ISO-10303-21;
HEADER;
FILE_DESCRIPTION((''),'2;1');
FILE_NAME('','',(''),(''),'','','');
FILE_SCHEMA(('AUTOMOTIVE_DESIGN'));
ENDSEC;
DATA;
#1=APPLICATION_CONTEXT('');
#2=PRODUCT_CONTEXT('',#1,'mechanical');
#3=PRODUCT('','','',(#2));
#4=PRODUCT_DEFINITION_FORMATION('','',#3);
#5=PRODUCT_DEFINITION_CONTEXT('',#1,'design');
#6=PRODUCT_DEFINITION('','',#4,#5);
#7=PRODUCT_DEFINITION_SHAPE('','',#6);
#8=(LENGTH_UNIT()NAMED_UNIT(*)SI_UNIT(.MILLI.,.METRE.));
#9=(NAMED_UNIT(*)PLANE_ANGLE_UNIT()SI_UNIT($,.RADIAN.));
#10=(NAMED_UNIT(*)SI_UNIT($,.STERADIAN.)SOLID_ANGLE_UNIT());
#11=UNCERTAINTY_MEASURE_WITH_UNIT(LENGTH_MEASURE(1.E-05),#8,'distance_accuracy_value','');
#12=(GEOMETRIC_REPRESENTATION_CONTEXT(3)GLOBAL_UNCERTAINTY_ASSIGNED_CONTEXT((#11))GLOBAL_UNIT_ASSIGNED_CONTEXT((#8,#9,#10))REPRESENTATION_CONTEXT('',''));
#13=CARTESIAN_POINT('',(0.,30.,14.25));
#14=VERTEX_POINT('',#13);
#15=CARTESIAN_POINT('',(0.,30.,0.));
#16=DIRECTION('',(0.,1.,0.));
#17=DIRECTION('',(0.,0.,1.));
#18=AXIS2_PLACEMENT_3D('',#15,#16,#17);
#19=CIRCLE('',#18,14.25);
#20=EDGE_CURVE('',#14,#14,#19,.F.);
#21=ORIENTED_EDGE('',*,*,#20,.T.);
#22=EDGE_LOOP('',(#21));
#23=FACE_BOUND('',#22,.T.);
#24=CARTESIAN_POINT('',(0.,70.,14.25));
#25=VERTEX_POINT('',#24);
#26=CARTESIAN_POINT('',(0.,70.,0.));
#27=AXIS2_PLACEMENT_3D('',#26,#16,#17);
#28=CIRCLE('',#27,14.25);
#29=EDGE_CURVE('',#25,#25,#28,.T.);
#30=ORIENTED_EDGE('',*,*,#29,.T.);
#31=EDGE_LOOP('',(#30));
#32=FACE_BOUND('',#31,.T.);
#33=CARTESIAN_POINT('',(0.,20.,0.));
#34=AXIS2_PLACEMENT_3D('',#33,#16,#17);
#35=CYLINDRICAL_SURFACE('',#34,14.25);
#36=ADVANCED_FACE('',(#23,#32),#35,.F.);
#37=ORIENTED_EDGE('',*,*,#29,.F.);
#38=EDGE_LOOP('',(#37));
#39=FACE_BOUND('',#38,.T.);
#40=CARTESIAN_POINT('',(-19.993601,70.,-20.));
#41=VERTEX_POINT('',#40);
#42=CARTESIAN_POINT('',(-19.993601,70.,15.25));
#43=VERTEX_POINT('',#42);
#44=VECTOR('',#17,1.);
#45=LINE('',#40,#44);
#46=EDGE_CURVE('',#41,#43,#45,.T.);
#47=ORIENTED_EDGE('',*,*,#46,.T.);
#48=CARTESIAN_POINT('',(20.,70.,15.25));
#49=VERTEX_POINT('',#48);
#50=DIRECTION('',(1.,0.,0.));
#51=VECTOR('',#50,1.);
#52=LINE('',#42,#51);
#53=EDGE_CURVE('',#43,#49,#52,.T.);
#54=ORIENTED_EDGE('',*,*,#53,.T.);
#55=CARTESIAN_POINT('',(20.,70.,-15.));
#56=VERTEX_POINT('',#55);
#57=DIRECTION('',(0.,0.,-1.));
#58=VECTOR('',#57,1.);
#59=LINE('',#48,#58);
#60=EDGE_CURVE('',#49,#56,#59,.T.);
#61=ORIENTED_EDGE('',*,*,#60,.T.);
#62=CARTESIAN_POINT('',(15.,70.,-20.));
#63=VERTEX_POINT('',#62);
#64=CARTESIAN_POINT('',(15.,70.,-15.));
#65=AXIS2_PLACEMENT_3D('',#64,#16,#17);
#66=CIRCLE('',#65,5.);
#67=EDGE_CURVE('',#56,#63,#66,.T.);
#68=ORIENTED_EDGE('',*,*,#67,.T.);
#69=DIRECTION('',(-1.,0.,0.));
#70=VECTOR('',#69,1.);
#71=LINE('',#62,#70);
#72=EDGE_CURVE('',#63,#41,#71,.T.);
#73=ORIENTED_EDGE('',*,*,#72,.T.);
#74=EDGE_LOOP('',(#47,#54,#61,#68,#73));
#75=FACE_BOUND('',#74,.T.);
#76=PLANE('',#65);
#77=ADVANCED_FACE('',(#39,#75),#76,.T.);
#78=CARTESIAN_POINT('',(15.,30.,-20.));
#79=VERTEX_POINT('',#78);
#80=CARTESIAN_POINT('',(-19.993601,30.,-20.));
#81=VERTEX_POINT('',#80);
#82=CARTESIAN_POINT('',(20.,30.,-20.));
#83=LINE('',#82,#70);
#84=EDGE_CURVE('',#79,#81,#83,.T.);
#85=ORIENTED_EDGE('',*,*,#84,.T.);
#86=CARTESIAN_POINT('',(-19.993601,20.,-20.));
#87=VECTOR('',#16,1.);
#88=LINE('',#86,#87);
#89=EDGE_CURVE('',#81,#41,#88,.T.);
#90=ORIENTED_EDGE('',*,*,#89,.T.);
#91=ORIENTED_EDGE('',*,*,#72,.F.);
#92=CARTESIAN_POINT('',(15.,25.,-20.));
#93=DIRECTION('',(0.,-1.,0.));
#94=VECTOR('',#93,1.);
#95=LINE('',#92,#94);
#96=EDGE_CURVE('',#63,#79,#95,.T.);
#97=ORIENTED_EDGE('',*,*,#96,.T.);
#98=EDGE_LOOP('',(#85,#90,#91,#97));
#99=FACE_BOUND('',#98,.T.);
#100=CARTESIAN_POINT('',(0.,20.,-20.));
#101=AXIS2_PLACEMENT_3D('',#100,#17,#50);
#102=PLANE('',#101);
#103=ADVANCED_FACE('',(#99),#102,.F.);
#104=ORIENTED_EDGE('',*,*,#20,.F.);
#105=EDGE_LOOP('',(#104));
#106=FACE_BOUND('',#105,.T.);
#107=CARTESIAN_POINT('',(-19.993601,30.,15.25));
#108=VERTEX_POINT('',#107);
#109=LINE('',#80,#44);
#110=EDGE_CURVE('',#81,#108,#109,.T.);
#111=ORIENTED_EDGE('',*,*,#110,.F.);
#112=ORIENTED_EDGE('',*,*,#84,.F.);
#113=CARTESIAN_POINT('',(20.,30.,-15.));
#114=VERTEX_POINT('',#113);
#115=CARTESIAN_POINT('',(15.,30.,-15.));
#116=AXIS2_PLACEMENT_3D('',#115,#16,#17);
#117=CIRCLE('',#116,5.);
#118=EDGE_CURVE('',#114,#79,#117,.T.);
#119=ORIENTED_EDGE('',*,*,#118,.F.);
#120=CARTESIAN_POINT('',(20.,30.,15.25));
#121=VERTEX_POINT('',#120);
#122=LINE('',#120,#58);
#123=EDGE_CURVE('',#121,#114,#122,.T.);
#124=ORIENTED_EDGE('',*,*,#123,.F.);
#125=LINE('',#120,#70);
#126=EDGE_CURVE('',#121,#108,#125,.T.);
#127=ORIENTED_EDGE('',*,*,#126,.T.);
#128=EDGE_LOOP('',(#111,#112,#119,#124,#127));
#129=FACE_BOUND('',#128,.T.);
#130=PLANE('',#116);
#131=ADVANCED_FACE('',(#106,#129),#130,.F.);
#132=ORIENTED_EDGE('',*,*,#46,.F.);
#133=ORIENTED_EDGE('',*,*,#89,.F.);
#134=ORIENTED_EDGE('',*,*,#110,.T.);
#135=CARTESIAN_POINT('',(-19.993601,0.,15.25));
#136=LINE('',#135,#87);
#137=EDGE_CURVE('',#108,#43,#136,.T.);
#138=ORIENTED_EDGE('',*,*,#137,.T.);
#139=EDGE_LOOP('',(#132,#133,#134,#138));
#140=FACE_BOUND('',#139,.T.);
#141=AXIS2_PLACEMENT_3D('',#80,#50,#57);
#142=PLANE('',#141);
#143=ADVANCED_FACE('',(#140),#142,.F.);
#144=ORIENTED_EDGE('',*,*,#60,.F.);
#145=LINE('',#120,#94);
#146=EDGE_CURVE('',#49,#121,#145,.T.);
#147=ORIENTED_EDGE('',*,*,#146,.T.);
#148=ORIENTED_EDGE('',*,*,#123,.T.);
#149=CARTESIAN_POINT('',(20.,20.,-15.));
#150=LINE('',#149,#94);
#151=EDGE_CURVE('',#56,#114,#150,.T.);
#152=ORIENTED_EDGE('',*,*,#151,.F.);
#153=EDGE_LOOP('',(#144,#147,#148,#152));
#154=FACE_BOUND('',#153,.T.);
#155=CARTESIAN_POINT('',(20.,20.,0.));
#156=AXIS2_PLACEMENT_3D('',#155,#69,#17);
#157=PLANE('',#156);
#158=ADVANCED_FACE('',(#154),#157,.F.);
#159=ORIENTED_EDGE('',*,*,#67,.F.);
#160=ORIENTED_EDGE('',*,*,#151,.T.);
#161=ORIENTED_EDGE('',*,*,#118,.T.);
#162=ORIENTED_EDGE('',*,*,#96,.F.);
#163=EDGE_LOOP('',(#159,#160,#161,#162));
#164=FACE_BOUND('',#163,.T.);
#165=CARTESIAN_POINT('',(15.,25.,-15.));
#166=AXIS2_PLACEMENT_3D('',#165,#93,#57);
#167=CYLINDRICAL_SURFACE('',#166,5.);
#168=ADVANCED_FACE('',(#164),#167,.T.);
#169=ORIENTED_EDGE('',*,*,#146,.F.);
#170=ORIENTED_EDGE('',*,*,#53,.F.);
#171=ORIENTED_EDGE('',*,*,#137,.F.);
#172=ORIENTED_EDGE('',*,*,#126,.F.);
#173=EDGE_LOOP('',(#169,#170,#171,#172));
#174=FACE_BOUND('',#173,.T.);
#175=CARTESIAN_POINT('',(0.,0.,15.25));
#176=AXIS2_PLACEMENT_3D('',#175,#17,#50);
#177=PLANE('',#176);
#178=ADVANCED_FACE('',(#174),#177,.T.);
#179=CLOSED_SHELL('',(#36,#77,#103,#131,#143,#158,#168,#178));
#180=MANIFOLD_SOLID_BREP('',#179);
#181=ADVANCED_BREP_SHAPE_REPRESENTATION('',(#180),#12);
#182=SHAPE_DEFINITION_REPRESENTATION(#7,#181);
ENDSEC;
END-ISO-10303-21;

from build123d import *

# Parameters (mm, degrees)
CROQUIS1_R                              = 15.25
CROQUIS1_R_2                            = 2.125
SOPORTE_CAJA_REDUCTORA_DEPTH            = 20
CROQUIS3_R                              = 2.125
CORTAR_EXTRUIR1_DEPTH                   = 51.423828692
REDONDEO1_R                             = 5
BOSS_EXTRUDE1_DEPTH                     = 20
CUT_EXTRUDE1_REACH                      = 55.852
SKETCH2_R                               = 1.625
CUT_EXTRUDE2_DEPTH                      = 2
SKETCH4_R                               = 1.625
CUT_EXTRUDE3_DEPTH                      = 63.291652731
CUT_EXTRUDE4_START                      = -4.5
CUT_EXTRUDE4_DEPTH                      = 2
CROQUIS6_W                              = 4.75
CROQUIS6_H                              = 4.75
CORTAR_EXTRUIR17_DEPTH                  = 42.231056256
CROQUIS7_W                              = 60
CROQUIS7_H                              = 20
CORTAR_EXTRUIR18_DEPTH                  = 51.423828692
SALIENTE_EXTRUIR2_DEPTH                 = 49
SOPORTE_START                           = -15
SOPORTE_MOTOR_DEPTH                     = 15
CROQUIS12_R                             = 2.125
AGUJEROS_DE_SUJECION_A_BASE_DEPTH       = 84.087679592
TUERCA_START                            = -4
TUERCA_AGUJERO_DE_SUJECION_A_BASE_DEPTH = 10
SALIENTE_EXTRUIR4_DEPTH                 = 15
CORTAR_EXTRUIR19_DEPTH                  = 25
CROQUIS14_W                             = 50
CROQUIS14_H                             = 118
CORTAR_EXTRUIR22_DEPTH                  = 146.556045907
CROQUIS15_W                             = 10
CROQUIS15_H                             = 7
CORTAR_EXTRUIR23_DEPTH                  = 42.231056256
CORTAR_EXTRUIR24_DEPTH                  = 42.231056256
CROQUIS18_W                             = 40
CROQUIS18_H                             = 10
CORTAR_EXTRUIR25_DEPTH                  = 44.27311521
SALIENTE_EXTRUIR5_DEPTH                 = 10
CROQUIS20_R                             = 1
CORTAR_EXTRUIR26_DEPTH                  = 49.229270158
CORTAR_EXTRUIR27_REACH                  = 62.959
CORTAR_EXTRUIR27_END_RADIUS             = 15.25
CROQUIS21_R                             = 1.625
CROQUIS22_R                             = 2.125
CROQUIS22_R_2                           = 1
SALIENTE_EXTRUIR6_DEPTH                 = 10
CROQUIS23_R                             = 1.625
CORTAR_EXTRUIR28_DEPTH                  = 52.269508521
CORTAR_EXTRUIR29_START                  = -3
CORTAR_EXTRUIR29_DEPTH                  = 10
SALIENTE_EXTRUIR7_DEPTH                 = 10
CORTAR_EXTRUIR30_REACH                  = 72.235
CROQUIS27_R                             = 1.625
CORTAR_EXTRUIR31_REACH                  = 75.235
CORTAR_EXTRUIR31_START                  = -3
CORTAR_EXTRUIR32_REACH                  = 58.612
CROQUIS29_R                             = 1.625
CORTAR_EXTRUIR33_REACH                  = 61.112
CORTAR_EXTRUIR33_START                  = -2.5
CROQUIS35_W                             = 13.305418987
CROQUIS35_H                             = 6.826864192
CORTAR_EXTRUIR34_DEPTH                  = 63.931555098
CORTAR_EXTRUIR34_DEPTH_BACK             = 63.931555098
CORTAR_EXTRUIR35_START                  = -3
CORTAR_EXTRUIR35_DEPTH                  = 10
SALIENTE_EXTRUIR8_DEPTH                 = 10
SALIENTE_EXTRUIR9_DEPTH                 = 13
SALIENTE_EXTRUIR10_DEPTH                = 3
CROQUIS40_W                             = 106.583537839
CROQUIS40_H                             = 47.391515964
CORTAR_EXTRUIR36_DEPTH                  = 80.887064817
CORTAR_EXTRUIR36_DEPTH_BACK             = 80.887064817
CORTAR_EXTRUIR37_DEPTH                  = 67.2524009
CORTAR_EXTRUIR37_DEPTH_BACK             = 67.2524009
CORTAR_EXTRUIR38_DEPTH                  = 79.704784639
CORTAR_EXTRUIR38_DEPTH_BACK             = 79.704784639
SALIENTE_EXTRUIR11_DEPTH                = 10
CORTAR_EXTRUIR39_DEPTH                  = 63.9908649
CROQUIS45_W                             = 31.470301378
CROQUIS45_H                             = 10
CROQUIS45_R                             = 1.625
SALIENTE_EXTRUIR12_DEPTH                = 2.5
SALIENTE_EXTRUIR13_DEPTH                = 10
CORTAR_EXTRUIR40_START                  = -2
CROQUIS47_R                             = 1.625
CORTAR_EXTRUIR40_DEPTH                  = 10
CORTAR_EXTRUIR41_START                  = -12
CROQUIS48_R                             = 1.625
CORTAR_EXTRUIR41_DEPTH                  = 12
CROQUIS49_W                             = 34.796066513
CROQUIS49_H                             = 42.211026982
CORTAR_EXTRUIR42_DEPTH                  = 52.795622989
CORTAR_EXTRUIR42_DEPTH_BACK             = 52.795622989
CROQUIS51_R                             = 15.25
CROQUIS51_R_2                           = 14.25
SALIENTE_EXTRUIR14_DEPTH                = 10
CORTAR_EXTRUIR43_DEPTH                  = 10
CORTAR_EXTRUIR44_DEPTH                  = 10
CORTAR_EXTRUIR45_DEPTH                  = 10
SALIENTE_EXTRUIR15_DEPTH                = 10
CROQUIS56_R                             = 14.25
SALIENTE_EXTRUIR16_DEPTH                = 40
CROQUIS57_W                             = 35.25
CROQUIS57_H                             = 10
CORTAR_EXTRUIR46_DEPTH                  = 84.0631572
CORTAR_EXTRUIR46_DEPTH_BACK             = 84.0631572


with BuildPart() as part:
    # Croquis1 → Soporte caja reductora (new body)
    with BuildSketch(Plane(origin=(0, 0, 0), x_dir=(1, 0, 0), z_dir=(0, 1, 0))):
        Polygon((-30, -15.25), (-20, -15.25), (-20, -20), (20, -20), (20, -15.25), (30, -15.25), (30, -7.25), (20, -4.25), (20, 20), (-20, 20), (-20, -4.25), (-30, -7.25), align=None)
        with Locations(Location((0, 0, 0), (0, 0, 270))):
            Circle(CROQUIS1_R, mode=Mode.SUBTRACT)
        with Locations(Location((-15, 15, 0), (0, 0, 270))):
            Circle(CROQUIS1_R_2, mode=Mode.SUBTRACT)
        with Locations(Location((15, 15, 0), (0, 0, 270))):
            Circle(CROQUIS1_R_2, mode=Mode.SUBTRACT)
    extrude(amount=-SOPORTE_CAJA_REDUCTORA_DEPTH)

    # Croquis3 → Cortar-Extruir1 (cut, through all)
    with BuildSketch(Plane.XY.offset(15.25)):
        with Locations((-23.5, -10)):
            Circle(CROQUIS3_R)
        with Locations((23.5, -10)):
            Circle(CROQUIS3_R)
    extrude(amount=-CORTAR_EXTRUIR1_DEPTH, mode=Mode.SUBTRACT)

    # Redondeo1
    redondeo1_edges = [part.edges().sort_by_distance(p)[0] for p in [
        (-20, -10, -20),
        (20, -10, -20),
    ]]
    fillet(redondeo1_edges, radius=REDONDEO1_R)

    # Sketch1 → Boss-Extrude1 (add)
    with BuildSketch(Plane(origin=(0, 0, 0), x_dir=(1, 0, 0), z_dir=(0, 1, 0))):
        with BuildLine():
            Line((25.5, 15), (20, 15))
            ThreePointArc((20, 15), (18.535533906, 18.535533906), (15, 20))
            Line((15, 20), (30, 20))
            Line((30, 20), (30, 8))
            Line((30, 8), (25.5, 8))
            Line((25.5, 8), (25.5, 15))
        make_face()
    extrude(amount=-BOSS_EXTRUDE1_DEPTH)

    # Sketch2 → Cut-Extrude1 (cut, up to next)
    with BuildSketch(Plane(origin=(0, 0, -20), x_dir=(-1, 0, 0), z_dir=(0, 0, -1)), mode=Mode.PRIVATE) as cut_extrude1_sk1:
        with Locations((-22.75, -10)):
            Circle(SKETCH2_R)
    cut_extrude1_tool1 = extrude(cut_extrude1_sk1.sketch, amount=-CUT_EXTRUDE1_REACH, mode=Mode.PRIVATE) & part.part
    add(cut_extrude1_tool1.solids().sort_by_distance((22.75, -10, -20))[0], mode=Mode.SUBTRACT)

    # Sketch3 → Cut-Extrude2 (cut)
    with BuildSketch(Plane.XY.offset(-15)):
        Polygon((20, -11.58771324), (22.75, -13.175426481), (25.5, -11.58771324), (25.5, -8.41228676), (22.75, -6.824573519), (20, -8.41228676), align=None)
    extrude(amount=-CUT_EXTRUDE2_DEPTH, mode=Mode.SUBTRACT)

    # Sketch4 → Cut-Extrude3 (cut, through all)
    with BuildSketch(Plane.ZY.offset(-25.5)):
        with Locations((-12.25, -10)):
            Circle(SKETCH4_R)
    extrude(amount=-CUT_EXTRUDE3_DEPTH, mode=Mode.SUBTRACT)

    # Sketch5 → Cut-Extrude4 (cut)
    with BuildSketch(Plane(origin=(30, 0, 0), x_dir=(0, 0, -1), z_dir=(1, 0, 0)).offset(CUT_EXTRUDE4_START)):
        Polygon((15, -11.58771324), (15, -8.41228676), (12.25, -6.824573519), (9.5, -8.41228676), (9.5, -11.58771324), (12.25, -13.175426481), align=None)
    extrude(amount=CUT_EXTRUDE4_DEPTH, mode=Mode.SUBTRACT)

    # Croquis6 → Cortar-Extruir17 (cut, through all)
    with BuildSketch(Plane(origin=(0, 0, 0), x_dir=(1, 0, 0), z_dir=(0, 1, 0))):
        Polygon((0, -15.25), (-15.25, -15.25), (-15.25, -20), (15.25, -20), (15.25, -15.25), align=None)
        with Locations((-17.625, -17.625)):
            Rectangle(CROQUIS6_W, CROQUIS6_H)
        with BuildLine():
            ThreePointArc((0, -15.25), (-10.783378413, -10.783378413), (-15.25, 0))
            Line((-15.25, 0), (-15.25, -15.25))
            Line((-15.25, -15.25), (0, -15.25))
        make_face()
        with BuildLine():
            Line((15.25, -15.25), (15.25, 0))
            ThreePointArc((15.25, 0), (10.783378413, -10.783378413), (0, -15.25))
            Line((0, -15.25), (15.25, -15.25))
        make_face()
        with Locations((17.625, -17.625)):
            Rectangle(CROQUIS6_W, CROQUIS6_H)
    extrude(amount=-CORTAR_EXTRUIR17_DEPTH, mode=Mode.SUBTRACT)


with BuildPart() as body_2:
    # Simetría1: mirrored copy
    add(part.part.mirror(Plane.ZX))

    # Croquis8 → Saliente-Extruir2 (add)
    with BuildSketch(Plane(origin=(0, 20, 0), x_dir=(1, 0, 0), z_dir=(0, 1, 0))):
        with BuildLine():
            Line((-12.664515522, 20), (-11.040489496, 13.939052358))
            Line((-11.040489496, 13.939052358), (-10.315162126, 11.232093763))
            ThreePointArc((-10.315162126, 11.232093763), (0, 15.25), (10.315162126, 11.232093763))
            Line((10.315162126, 11.232093763), (10.817418481, 13.87928066))
            Line((10.817418481, 13.87928066), (11.978715476, 20))
            Line((11.978715476, 20), (-12.664515522, 20))
        make_face()
    extrude(amount=SALIENTE_EXTRUIR2_DEPTH)

    # Croquis9 → Soporte motor (add)
    with BuildSketch(Plane(origin=(0, 69, 0), x_dir=(1, 0, 0), z_dir=(0, 1, 0)).offset(SOPORTE_START)):
        with BuildLine():
            Line((-20, 15), (-20, -4.25))
            Line((-20, -4.25), (-30, -7.25))
            Line((-30, -7.25), (-30, -15.25))
            Line((-30, -15.25), (0, -15.25))
            Line((0, -15.25), (0, -14.75))
            ThreePointArc((0, -14.75), (-10.429825023, 10.429825023), (14.75, 0))
            Line((14.75, 0), (20, 0))
            Line((20, 0), (20, 13.936837101))
            Line((20, 13.936837101), (12.664515522, 20))
            Line((12.664515522, 20), (-15, 20))
            ThreePointArc((-15, 20), (-18.535533906, 18.535533906), (-20, 15))
        make_face()
    extrude(amount=-SOPORTE_MOTOR_DEPTH)

    # Croquis12 → Agujeros de sujecion a base (cut, through all)
    with BuildSketch(Plane.XY.offset(15.25)):
        with Locations((-23.5, 46.5)):
            Circle(CROQUIS12_R)
    extrude(amount=-AGUJEROS_DE_SUJECION_A_BASE_DEPTH, mode=Mode.SUBTRACT)

    # Croquis13 → Tuerca Agujero de sujecion a base (cut)
    with BuildSketch(Plane.XY.offset(15.25).offset(TUERCA_START)):
        Polygon((-20, 44.479274058), (-20, 48.520725942), (-23.5, 50.541451884), (-27, 48.520725942), (-27, 44.479274058), (-23.5, 42.458548116), align=None)
    extrude(amount=-TUERCA_AGUJERO_DE_SUJECION_A_BASE_DEPTH, mode=Mode.SUBTRACT)

    # Croquis10 → Saliente-Extruir4 (add)
    with BuildSketch(Plane(origin=(0, 69, 0), x_dir=(1, 0, 0), z_dir=(0, 1, 0))):
        with BuildLine():
            ThreePointArc((10.315162126, 11.232093763), (0, 15.25), (-10.315162126, 11.232093763))
            Line((-10.315162126, 11.232093763), (-10.16850369, 10.684757026))
            ThreePointArc((-10.16850369, 10.684757026), (0, 14.75), (10.16850369, 10.684757026))
            Line((10.16850369, 10.684757026), (10.315162126, 11.232093763))
        make_face()
    extrude(amount=-SALIENTE_EXTRUIR4_DEPTH)

    # Croquis11 → Cortar-Extruir19 (cut)
    with BuildSketch(Plane.XZ):
        with BuildLine():
            Line((15.25, 4.25), (20, 4.25))
            Line((20, 4.25), (21.972856468, 4.84185694))
            ThreePointArc((21.972856468, 4.84185694), (19.948931102, 10.40625523), (16.543503257, 15.25))
            Line((16.543503257, 15.25), (15.25, 15.25))
            Line((15.25, 15.25), (15.25, 4.25))
        make_face()
        with BuildLine():
            Line((21.972856468, 4.84185694), (30, 7.25))
            Line((30, 7.25), (30, 15.25))
            Line((30, 15.25), (16.543503257, 15.25))
            ThreePointArc((16.543503257, 15.25), (19.948931102, 10.40625523), (21.972856468, 4.84185694))
        make_face()
        with BuildLine():
            ThreePointArc((20, -15), (18.535533906, -18.535533906), (15, -20))
            Line((15, -20), (30, -20))
            Line((30, -20), (30, -8))
            Line((30, -8), (25.5, -8))
            Line((25.5, -8), (25.5, -15))
            Line((25.5, -15), (20, -15))
        make_face()
    extrude(amount=-CORTAR_EXTRUIR19_DEPTH, mode=Mode.SUBTRACT)

    # Simetría2: body 2 across face


with BuildPart() as part_1:
    add(part.part)

    # Croquis7 → Cortar-Extruir18 (cut, through all)
    with BuildSketch(Plane(origin=(0, 0, -20), x_dir=(-1, 0, 0), z_dir=(0, 0, -1))):
        with Locations((0, -10)):
            Rectangle(CROQUIS7_W, CROQUIS7_H)
    extrude(amount=-CORTAR_EXTRUIR18_DEPTH, mode=Mode.SUBTRACT)


with BuildPart() as body_2_1:
    add(body_2.part)
    add(body_2.part.mirror(Plane(origin=(-0.229209569, 69, -16.663998028), x_dir=(0, 0, 1), z_dir=(0, 1, 0))))

    # Croquis14 → Cortar-Extruir22 (cut, through all)
    with BuildSketch(Plane.XY.offset(15.25)):
        with Locations((-5, 79)):
            Rectangle(CROQUIS14_W, CROQUIS14_H)
    extrude(amount=-CORTAR_EXTRUIR22_DEPTH, mode=Mode.SUBTRACT)

    # Croquis15 → Cortar-Extruir23 (cut, through all)
    with BuildSketch(Plane.XZ):
        with Locations((-25, 7.75)):
            Rectangle(CROQUIS15_W, CROQUIS15_H)
    extrude(amount=-CORTAR_EXTRUIR23_DEPTH, mode=Mode.SUBTRACT)

    # Croquis16 → Cortar-Extruir24 (cut, through all)
    with BuildSketch(Plane.XZ):
        Polygon((-30, 15.25), (-15.25, 15.25), (-15.25, 12.75), (-20, 12.75), (-20, 11.25), (-30, 11.25), (-30, 12.75), align=None)
    extrude(amount=-CORTAR_EXTRUIR24_DEPTH, mode=Mode.SUBTRACT)

    # Croquis18 → Cortar-Extruir25 (cut, through all)
    with BuildSketch(Plane(origin=(0, 0, -20), x_dir=(-1, 0, 0), z_dir=(0, 0, -1))):
        with Locations((0, 5)):
            Rectangle(CROQUIS18_W, CROQUIS18_H)
    extrude(amount=-CORTAR_EXTRUIR25_DEPTH, mode=Mode.SUBTRACT)

    # Croquis19 → Saliente-Extruir5 (add)
    with BuildSketch(Plane(origin=(0, 20, 0), x_dir=(1, 0, 0), z_dir=(0, 1, 0))):
        Polygon((-20, -12.75), (-34, -12.75), (-34, -7.75), (-24, -7.75), (-20, -3.75), align=None)
    extrude(amount=-SALIENTE_EXTRUIR5_DEPTH)

    # Croquis20 → Cortar-Extruir26 (cut, through all)
    with BuildSketch(Plane(origin=(0, 0, 7.75), x_dir=(-1, 0, 0), z_dir=(0, 0, -1))):
        with Locations((29, 15)):
            Circle(CROQUIS20_R)
    extrude(amount=-CORTAR_EXTRUIR26_DEPTH, mode=Mode.SUBTRACT)

    # Cortar-Extruir27: up to this cylinder (the profile starts outside it)
    cortar_extruir27_end = Plane(origin=(0, 15, 0), z_dir=(0, -1, 0)) * Cylinder(CORTAR_EXTRUIR27_END_RADIUS, 157.418, mode=Mode.PRIVATE)
    # Croquis21 → Cortar-Extruir27 (cut, up to the surface)
    with BuildSketch(Plane(origin=(20, 0, 0), x_dir=(0, 0, -1), z_dir=(1, 0, 0)), mode=Mode.PRIVATE) as cortar_extruir27_sk1:
        with Locations((4.75, 15)):
            Circle(CROQUIS21_R)
    cortar_extruir27_tool1 = extrude(cortar_extruir27_sk1.sketch, amount=-CORTAR_EXTRUIR27_REACH, mode=Mode.PRIVATE) - cortar_extruir27_end
    add(cortar_extruir27_tool1.solids().sort_by_distance((20, 15, -4.75))[0], mode=Mode.SUBTRACT)

    # Croquis22 → Saliente-Extruir6 (add)
    with BuildSketch(Plane.XZ.offset(-10)):
        with Locations((-15, -15)):
            Circle(CROQUIS22_R)
        with Locations(Location((-15, -15, 0), (0, 0, 270))):
            Circle(CROQUIS22_R_2, mode=Mode.SUBTRACT)
        with Locations((15, -15)):
            Circle(CROQUIS22_R)
        with Locations(Location((15, -15, 0), (0, 0, 270))):
            Circle(CROQUIS22_R_2, mode=Mode.SUBTRACT)
    extrude(amount=-SALIENTE_EXTRUIR6_DEPTH)

    # Croquis23 → Cortar-Extruir28 (cut, through all)
    with BuildSketch(Plane(origin=(0, 0, -20), x_dir=(-1, 0, 0), z_dir=(0, 0, -1))):
        with Locations((0, 15)):
            Circle(CROQUIS23_R)
    extrude(amount=-CORTAR_EXTRUIR28_DEPTH, mode=Mode.SUBTRACT)

    # Croquis24 → Cortar-Extruir29 (cut)
    with BuildSketch(Plane(origin=(0, 0, -20), x_dir=(-1, 0, 0), z_dir=(0, 0, -1)).offset(CORTAR_EXTRUIR29_START)):
        Polygon((1.58771324, 12.25), (3.175426481, 15), (1.58771324, 17.75), (-1.58771324, 17.75), (-3.175426481, 15), (-1.58771324, 12.25), align=None)
    extrude(amount=-CORTAR_EXTRUIR29_DEPTH, mode=Mode.SUBTRACT)

    # Croquis26 → Saliente-Extruir7 (add)
    with BuildSketch(Plane.XZ.offset(-10)):
        Polygon((-34, 7.75), (-34, 12.75), (-58.825, 12.75), (-39.160527763, -4.104491148), (-20, -4.104491148), (-20, -0.104491148), (-35.732113118, -0.104491148), (-29, 7.75), align=None)
        Polygon((-34.268209086, 7.75), (-39.594516123, 1.535690951), (-46.844874897, 7.75), align=None, mode=Mode.SUBTRACT)
    extrude(amount=-SALIENTE_EXTRUIR7_DEPTH)

    # Croquis27 → Cortar-Extruir30 (cut, up to next)
    with BuildSketch(Plane.XY.offset(12.75), mode=Mode.PRIVATE) as cortar_extruir30_sk1:
        with Locations((-40.544874897, 15)):
            Circle(CROQUIS27_R)
    cortar_extruir30_tool1 = extrude(cortar_extruir30_sk1.sketch, amount=-CORTAR_EXTRUIR30_REACH, mode=Mode.PRIVATE) & body_2_1.part
    # Croquis27 → Cortar-Extruir30 (cut, up to next)
    with BuildSketch(Plane.XY.offset(12.75), mode=Mode.PRIVATE) as cortar_extruir30_sk2:
        with Locations((-29, 15)):
            Circle(CROQUIS27_R)
    cortar_extruir30_tool2 = extrude(cortar_extruir30_sk2.sketch, amount=-CORTAR_EXTRUIR30_REACH, mode=Mode.PRIVATE) & body_2_1.part
    add(cortar_extruir30_tool1.solids().sort_by_distance((-40.544875, 15, 12.75))[0], mode=Mode.SUBTRACT)
    add(cortar_extruir30_tool2.solids().sort_by_distance((-29, 15, 12.75))[0], mode=Mode.SUBTRACT)

    # Croquis28 → Cortar-Extruir31 (cut, up to next)
    with BuildSketch(Plane.XY.offset(12.75).offset(CORTAR_EXTRUIR31_START), mode=Mode.PRIVATE) as cortar_extruir31_sk1:
        Polygon((-38.957161657, 12.25), (-37.369448416, 15), (-38.957161657, 17.75), (-42.132588137, 17.75), (-43.720301378, 15), (-42.132588137, 12.25), align=None)
    cortar_extruir31_tool1 = extrude(cortar_extruir31_sk1.sketch, amount=-CORTAR_EXTRUIR31_REACH, mode=Mode.PRIVATE) & body_2_1.part
    # Croquis28 → Cortar-Extruir31 (cut, up to next)
    with BuildSketch(Plane.XY.offset(12.75).offset(CORTAR_EXTRUIR31_START), mode=Mode.PRIVATE) as cortar_extruir31_sk2:
        Polygon((-27.41228676, 12.25), (-25.824573519, 15), (-27.41228676, 17.75), (-30.58771324, 17.75), (-32.175426481, 15), (-30.58771324, 12.25), align=None)
    cortar_extruir31_tool2 = extrude(cortar_extruir31_sk2.sketch, amount=-CORTAR_EXTRUIR31_REACH, mode=Mode.PRIVATE) & body_2_1.part
    add(cortar_extruir31_tool1.solids().sort_by_distance((-40.544875, 15, 9.75))[0], mode=Mode.SUBTRACT)
    add(cortar_extruir31_tool2.solids().sort_by_distance((-29, 15, 9.75))[0], mode=Mode.SUBTRACT)

    # Croquis29 → Cortar-Extruir32 (cut, up to next)
    with BuildSketch(Plane(origin=(-18.612848159, 0, -21.715982563), x_dir=(-0.7592713073348843, 0, 0.6507742172658468), z_dir=(-0.6507742172658468, 0, -0.7592713073348843)), mode=Mode.PRIVATE) as cortar_extruir32_sk1:
        with Locations((33.812368097, 15)):
            Circle(CROQUIS29_R)
    cortar_extruir32_tool1 = extrude(cortar_extruir32_sk1.sketch, amount=-CORTAR_EXTRUIR32_REACH, mode=Mode.PRIVATE) & body_2_1.part
    add(cortar_extruir32_tool1.solids().sort_by_distance((-44.285609, 15, 0.288235))[0], mode=Mode.SUBTRACT)

    # Croquis31 → Cortar-Extruir33 (cut, up to next)
    with BuildSketch(Plane(origin=(-18.612848159, 0, -21.715982563), x_dir=(-0.7592713073348843, 0, 0.6507742172658468), z_dir=(-0.6507742172658468, 0, -0.7592713073348843)).offset(CORTAR_EXTRUIR33_START), mode=Mode.PRIVATE) as cortar_extruir33_sk1:
        Polygon((36.562368097, 16.58771324), (33.812368097, 18.175426481), (31.062368097, 16.58771324), (31.062368097, 13.41228676), (33.812368097, 11.824573519), (36.562368097, 13.41228676), align=None)
    cortar_extruir33_tool1 = extrude(cortar_extruir33_sk1.sketch, amount=-CORTAR_EXTRUIR33_REACH, mode=Mode.PRIVATE) & body_2_1.part
    add(cortar_extruir33_tool1.solids().sort_by_distance((-42.658674, 15, 2.186413))[0], mode=Mode.SUBTRACT)

    # Croquis35 → Cortar-Extruir34 (cut, two sides)
    with BuildSketch(Plane(origin=(0, 20, 0), x_dir=(1, 0, 0), z_dir=(0, 1, 0))) as cortar_extruir34_sk:
        with Locations((17.04227466, -3.413432096)):
            Rectangle(CROQUIS35_W, CROQUIS35_H)
    extrude(amount=CORTAR_EXTRUIR34_DEPTH, mode=Mode.SUBTRACT)
    extrude(cortar_extruir34_sk.sketch, amount=-CORTAR_EXTRUIR34_DEPTH_BACK, mode=Mode.SUBTRACT)

    # Croquis36 → Cortar-Extruir35 (cut)
    with BuildSketch(Plane(origin=(20, 0, 0), x_dir=(0, 0, -1), z_dir=(1, 0, 0)).offset(CORTAR_EXTRUIR35_START)):
        Polygon((7.5, 16.58771324), (4.75, 18.175426481), (2, 16.58771324), (2, 13.41228676), (4.75, 11.824573519), (7.5, 13.41228676), align=None)
    extrude(amount=-CORTAR_EXTRUIR35_DEPTH, mode=Mode.SUBTRACT)

    # Croquis37 → Saliente-Extruir8 (add)
    with BuildSketch(Plane.XZ.offset(-10)):
        Polygon((-39.160527763, -4.104491148), (-20.614919368, -20), (-15, -20), (-19.558128305, -15.637570403), (-33.014002756, -4.104491148), align=None)
    extrude(amount=-SALIENTE_EXTRUIR8_DEPTH)

    # Croquis38 → Saliente-Extruir9 (add)
    with BuildSketch(Plane.XZ.offset(-10)):
        Polygon((-58.825, 12.75), (-38.825, 12.75), (-38.825, 9.75), (-55.324839942, 9.75), align=None)
    extrude(amount=SALIENTE_EXTRUIR9_DEPTH)

    # Croquis39 → Saliente-Extruir10 (add)
    with BuildSketch(Plane.XZ.offset(-10)):
        Polygon((-38.825, 9.75), (-38.825, 7.75), (-38.825, 5.75), (-50.657959865, 5.75), (-52.991399903, 7.75), (-55.324839942, 9.75), align=None)
    extrude(amount=SALIENTE_EXTRUIR10_DEPTH)

    # Simetría3: body 2 across face


with BuildPart() as body_2_2:
    add(body_2_1.part)
    add(body_2_1.part.mirror(Plane(origin=(-18.003999227, 20, -4.220503046), x_dir=(0, 0, 1), z_dir=(0, 1, 0))))

    # Croquis40 → Cortar-Extruir36 (cut, two sides)
    with BuildSketch(Plane(origin=(0, 0, -20), x_dir=(-1, 0, 0), z_dir=(0, 0, -1))) as cortar_extruir36_sk:
        with Locations((22.395502026, -3.695757982)):
            Rectangle(CROQUIS40_W, CROQUIS40_H)
    extrude(amount=CORTAR_EXTRUIR36_DEPTH, mode=Mode.SUBTRACT)
    extrude(cortar_extruir36_sk.sketch, amount=-CORTAR_EXTRUIR36_DEPTH_BACK, mode=Mode.SUBTRACT)

    # Croquis41 → Cortar-Extruir37 (cut, two sides)
    with BuildSketch(Plane.XZ.offset(-20)) as cortar_extruir37_sk:
        Polygon((-19.992980133, -22.302484261), (-20, 3.75), (-24, 7.75), (-56.035110209, 7.75), align=None)
    extrude(amount=CORTAR_EXTRUIR37_DEPTH, mode=Mode.SUBTRACT)
    extrude(cortar_extruir37_sk.sketch, amount=-CORTAR_EXTRUIR37_DEPTH_BACK, mode=Mode.SUBTRACT)

    # Croquis42 → Cortar-Extruir38 (cut, two sides)
    with BuildSketch(Plane(origin=(0, 0, 9.75), x_dir=(-1, 0, 0), z_dir=(0, 0, -1))) as cortar_extruir38_sk:
        Polygon((46.720301378, 20), (46.720301378, 30), (38.825, 30), (33.492952769, 43.760628779), (49.525340398, 48.951442806), (67.200390695, 42.512205152), (65.906601328, 20), (51.713995885, 13.864168239), align=None)
    extrude(amount=CORTAR_EXTRUIR38_DEPTH, mode=Mode.SUBTRACT)
    extrude(cortar_extruir38_sk.sketch, amount=-CORTAR_EXTRUIR38_DEPTH_BACK, mode=Mode.SUBTRACT)

    # Croquis43 → Saliente-Extruir11 (add)
    with BuildSketch(Plane.XZ.offset(-20)):
        Polygon((-19.993600539, -20), (-46.720301378, 7.75), (-43.839252857, 10.524807997), (-17.112552018, -17.225192003), align=None)
    extrude(amount=-SALIENTE_EXTRUIR11_DEPTH)

    # Croquis44 → Cortar-Extruir39 (cut, through all)
    with BuildSketch(Plane(origin=(0, 0, 9.75), x_dir=(-1, 0, 0), z_dir=(0, 0, -1))):
        Polygon((38.957161657, 27.75), (37.369448416, 25), (38.957161657, 22.25), (42.132588137, 22.25), (43.720301378, 25), (42.132588137, 27.75), align=None)
    extrude(amount=CORTAR_EXTRUIR39_DEPTH, mode=Mode.SUBTRACT)

    # Croquis45 → Saliente-Extruir12 (add)
    with BuildSketch(Plane.XY.offset(12.75)):
        with Locations((-30.985150689, 25)):
            Rectangle(CROQUIS45_W, CROQUIS45_H)
        with Locations((-40.544874897, 25)):
            Circle(CROQUIS45_R, mode=Mode.SUBTRACT)
        with Locations((-29, 25)):
            Circle(CROQUIS45_R, mode=Mode.SUBTRACT)
    extrude(amount=SALIENTE_EXTRUIR12_DEPTH)

    # Croquis46 → Saliente-Extruir13 (add)
    with BuildSketch(Plane.XZ.offset(-20)):
        with BuildLine():
            Line((15.25, 0), (20, 0))
            Line((20, 0), (20, 15.25))
            Line((20, 15.25), (7.549834435, 15.25))
            Line((7.549834435, 15.25), (7.549834435, 13.25))
            ThreePointArc((7.549834435, 13.25), (13.185171124, 7.662490615), (15.25, 0))
        make_face()
        with BuildLine():
            Line((-15.25, 0), (-15.25, 15.25))
            Line((-15.25, 15.25), (-7.549834435, 15.25))
            Line((-7.549834435, 15.25), (-7.549834435, 13.25))
            ThreePointArc((-7.549834435, 13.25), (-13.185171124, 7.662490615), (-15.25, 0))
        make_face()
    extrude(amount=-SALIENTE_EXTRUIR13_DEPTH)

    # Croquis47 → Cortar-Extruir40 (cut)
    with BuildSketch(Plane.XY.offset(15.25).offset(CORTAR_EXTRUIR40_START)):
        Polygon((15.41228676, 22.352505966), (17, 25.102505966), (15.41228676, 27.852505966), (12.236860279, 27.852505966), (10.649147039, 25.102505966), (12.236860279, 22.352505966), align=None)
        with Locations((13.824573519, 25.102505966)):
            Circle(CROQUIS47_R, mode=Mode.SUBTRACT)
        Polygon((-12.236860279, 22.352505966), (-15.41228676, 22.352505966), (-17, 25.102505966), (-15.41228676, 27.852505966), (-12.236860279, 27.852505966), (-10.649147039, 25.102505966), align=None)
        with Locations(Location((-13.824573519, 25.102505966, 0), (0, 0, 131.421584744))):
            Circle(CROQUIS47_R, mode=Mode.SUBTRACT)
    extrude(amount=-CORTAR_EXTRUIR40_DEPTH, mode=Mode.SUBTRACT)

    # Croquis48 → Cortar-Extruir41 (cut)
    with BuildSketch(Plane.XY.offset(15.25).offset(CORTAR_EXTRUIR41_START)):
        with Locations((13.824573519, 25.102505966)):
            Circle(CROQUIS48_R)
        with Locations((-13.824573519, 25.102505966)):
            Circle(CROQUIS48_R)
    extrude(amount=CORTAR_EXTRUIR41_DEPTH, mode=Mode.SUBTRACT)

    # Croquis49 → Cortar-Extruir42 (cut, two sides)
    with BuildSketch(Plane.XZ.offset(-20)) as cortar_extruir42_sk:
        with Locations((-37.391633796, 1.105513491)):
            Rectangle(CROQUIS49_W, CROQUIS49_H)
    extrude(amount=CORTAR_EXTRUIR42_DEPTH, mode=Mode.SUBTRACT)
    extrude(cortar_extruir42_sk.sketch, amount=-CORTAR_EXTRUIR42_DEPTH_BACK, mode=Mode.SUBTRACT)

    # Croquis51 → Saliente-Extruir14 (add)
    with BuildSketch(Plane(origin=(0, 30, 0), x_dir=(1, 0, 0), z_dir=(0, 1, 0))):
        Circle(CROQUIS51_R)
        with Locations(Location((0, 0, 0), (0, 0, 270))):
            Circle(CROQUIS51_R_2, mode=Mode.SUBTRACT)
    extrude(amount=-SALIENTE_EXTRUIR14_DEPTH)

    # Croquis52 → Cortar-Extruir43 (cut)
    with BuildSketch(Plane(origin=(0, 0, 13.25), x_dir=(-1, 0, 0), z_dir=(0, 0, -1))):
        Polygon((-10.649147039, 25.102505966), (-12.236860279, 27.852505966), (-15.41228676, 27.852505966), (-17, 25.102505966), (-15.41228676, 22.352505966), (-12.236860279, 22.352505966), align=None)
        Polygon((17, 25.102505966), (15.41228676, 27.852505966), (12.236860279, 27.852505966), (10.649147039, 25.102505966), (12.236860279, 22.352505966), (15.41228676, 22.352505966), align=None)
    extrude(amount=CORTAR_EXTRUIR43_DEPTH, mode=Mode.SUBTRACT)

    # Croquis53 → Cortar-Extruir44 (cut)
    with BuildSketch(Plane.XY.offset(-17)):
        Polygon((3.175426481, 25), (1.58771324, 27.75), (-1.58771324, 27.75), (-3.175426481, 25), (-1.58771324, 22.25), (1.58771324, 22.25), align=None)
    extrude(amount=CORTAR_EXTRUIR44_DEPTH, mode=Mode.SUBTRACT)

    # Croquis54 → Cortar-Extruir45 (cut)
    with BuildSketch(Plane.ZY.offset(-17)):
        Polygon((-4.75, 28.175426481), (-7.5, 26.58771324), (-7.5, 23.41228676), (-4.75, 21.824573519), (-2, 23.41228676), (-2, 26.58771324), align=None)
    extrude(amount=CORTAR_EXTRUIR45_DEPTH, mode=Mode.SUBTRACT)

    # Croquis55 → Saliente-Extruir15 (add)
    with BuildSketch(Plane(origin=(0, 30, 0), x_dir=(1, 0, 0), z_dir=(0, 1, 0))):
        with BuildLine():
            Line((-7.549834435, -13.25), (-7.549834435, -15.25))
            Line((-7.549834435, -15.25), (0, -15.25))
            ThreePointArc((0, -15.25), (-3.905124838, -14.741522988), (-7.549834435, -13.25))
        make_face()
        with BuildLine():
            ThreePointArc((7.549834435, -13.25), (3.905124838, -14.741522988), (0, -15.25))
            Line((0, -15.25), (7.549834435, -15.25))
            Line((7.549834435, -15.25), (7.549834435, -13.25))
        make_face()
    extrude(amount=-SALIENTE_EXTRUIR15_DEPTH)

    # Croquis56 → Saliente-Extruir16 (add)
    with BuildSketch(Plane(origin=(0, 30, 0), x_dir=(1, 0, 0), z_dir=(0, 1, 0))):
        with BuildLine():
            Line((20, -15.25), (20, 15))
            ThreePointArc((20, 15), (18.535533906, 18.535533906), (15, 20))
            Line((15, 20), (-19.993600539, 20))
            Line((-19.993600539, 20), (-19.993600539, -15.25))
            Line((-19.993600539, -15.25), (20, -15.25))
        make_face()
        with Locations(Location((0, 0, 0), (0, 0, 270))):
            Circle(CROQUIS56_R, mode=Mode.SUBTRACT)
    extrude(amount=SALIENTE_EXTRUIR16_DEPTH)

    # Croquis57 → Cortar-Extruir46 (cut, two sides)
    with BuildSketch(Plane.ZY.offset(19.993600539)) as cortar_extruir46_sk:
        with Locations((-2.375, 25)):
            Rectangle(CROQUIS57_W, CROQUIS57_H)
    extrude(amount=CORTAR_EXTRUIR46_DEPTH, mode=Mode.SUBTRACT)
    extrude(cortar_extruir46_sk.sketch, amount=-CORTAR_EXTRUIR46_DEPTH_BACK, mode=Mode.SUBTRACT)


solid = body_2_2.part
